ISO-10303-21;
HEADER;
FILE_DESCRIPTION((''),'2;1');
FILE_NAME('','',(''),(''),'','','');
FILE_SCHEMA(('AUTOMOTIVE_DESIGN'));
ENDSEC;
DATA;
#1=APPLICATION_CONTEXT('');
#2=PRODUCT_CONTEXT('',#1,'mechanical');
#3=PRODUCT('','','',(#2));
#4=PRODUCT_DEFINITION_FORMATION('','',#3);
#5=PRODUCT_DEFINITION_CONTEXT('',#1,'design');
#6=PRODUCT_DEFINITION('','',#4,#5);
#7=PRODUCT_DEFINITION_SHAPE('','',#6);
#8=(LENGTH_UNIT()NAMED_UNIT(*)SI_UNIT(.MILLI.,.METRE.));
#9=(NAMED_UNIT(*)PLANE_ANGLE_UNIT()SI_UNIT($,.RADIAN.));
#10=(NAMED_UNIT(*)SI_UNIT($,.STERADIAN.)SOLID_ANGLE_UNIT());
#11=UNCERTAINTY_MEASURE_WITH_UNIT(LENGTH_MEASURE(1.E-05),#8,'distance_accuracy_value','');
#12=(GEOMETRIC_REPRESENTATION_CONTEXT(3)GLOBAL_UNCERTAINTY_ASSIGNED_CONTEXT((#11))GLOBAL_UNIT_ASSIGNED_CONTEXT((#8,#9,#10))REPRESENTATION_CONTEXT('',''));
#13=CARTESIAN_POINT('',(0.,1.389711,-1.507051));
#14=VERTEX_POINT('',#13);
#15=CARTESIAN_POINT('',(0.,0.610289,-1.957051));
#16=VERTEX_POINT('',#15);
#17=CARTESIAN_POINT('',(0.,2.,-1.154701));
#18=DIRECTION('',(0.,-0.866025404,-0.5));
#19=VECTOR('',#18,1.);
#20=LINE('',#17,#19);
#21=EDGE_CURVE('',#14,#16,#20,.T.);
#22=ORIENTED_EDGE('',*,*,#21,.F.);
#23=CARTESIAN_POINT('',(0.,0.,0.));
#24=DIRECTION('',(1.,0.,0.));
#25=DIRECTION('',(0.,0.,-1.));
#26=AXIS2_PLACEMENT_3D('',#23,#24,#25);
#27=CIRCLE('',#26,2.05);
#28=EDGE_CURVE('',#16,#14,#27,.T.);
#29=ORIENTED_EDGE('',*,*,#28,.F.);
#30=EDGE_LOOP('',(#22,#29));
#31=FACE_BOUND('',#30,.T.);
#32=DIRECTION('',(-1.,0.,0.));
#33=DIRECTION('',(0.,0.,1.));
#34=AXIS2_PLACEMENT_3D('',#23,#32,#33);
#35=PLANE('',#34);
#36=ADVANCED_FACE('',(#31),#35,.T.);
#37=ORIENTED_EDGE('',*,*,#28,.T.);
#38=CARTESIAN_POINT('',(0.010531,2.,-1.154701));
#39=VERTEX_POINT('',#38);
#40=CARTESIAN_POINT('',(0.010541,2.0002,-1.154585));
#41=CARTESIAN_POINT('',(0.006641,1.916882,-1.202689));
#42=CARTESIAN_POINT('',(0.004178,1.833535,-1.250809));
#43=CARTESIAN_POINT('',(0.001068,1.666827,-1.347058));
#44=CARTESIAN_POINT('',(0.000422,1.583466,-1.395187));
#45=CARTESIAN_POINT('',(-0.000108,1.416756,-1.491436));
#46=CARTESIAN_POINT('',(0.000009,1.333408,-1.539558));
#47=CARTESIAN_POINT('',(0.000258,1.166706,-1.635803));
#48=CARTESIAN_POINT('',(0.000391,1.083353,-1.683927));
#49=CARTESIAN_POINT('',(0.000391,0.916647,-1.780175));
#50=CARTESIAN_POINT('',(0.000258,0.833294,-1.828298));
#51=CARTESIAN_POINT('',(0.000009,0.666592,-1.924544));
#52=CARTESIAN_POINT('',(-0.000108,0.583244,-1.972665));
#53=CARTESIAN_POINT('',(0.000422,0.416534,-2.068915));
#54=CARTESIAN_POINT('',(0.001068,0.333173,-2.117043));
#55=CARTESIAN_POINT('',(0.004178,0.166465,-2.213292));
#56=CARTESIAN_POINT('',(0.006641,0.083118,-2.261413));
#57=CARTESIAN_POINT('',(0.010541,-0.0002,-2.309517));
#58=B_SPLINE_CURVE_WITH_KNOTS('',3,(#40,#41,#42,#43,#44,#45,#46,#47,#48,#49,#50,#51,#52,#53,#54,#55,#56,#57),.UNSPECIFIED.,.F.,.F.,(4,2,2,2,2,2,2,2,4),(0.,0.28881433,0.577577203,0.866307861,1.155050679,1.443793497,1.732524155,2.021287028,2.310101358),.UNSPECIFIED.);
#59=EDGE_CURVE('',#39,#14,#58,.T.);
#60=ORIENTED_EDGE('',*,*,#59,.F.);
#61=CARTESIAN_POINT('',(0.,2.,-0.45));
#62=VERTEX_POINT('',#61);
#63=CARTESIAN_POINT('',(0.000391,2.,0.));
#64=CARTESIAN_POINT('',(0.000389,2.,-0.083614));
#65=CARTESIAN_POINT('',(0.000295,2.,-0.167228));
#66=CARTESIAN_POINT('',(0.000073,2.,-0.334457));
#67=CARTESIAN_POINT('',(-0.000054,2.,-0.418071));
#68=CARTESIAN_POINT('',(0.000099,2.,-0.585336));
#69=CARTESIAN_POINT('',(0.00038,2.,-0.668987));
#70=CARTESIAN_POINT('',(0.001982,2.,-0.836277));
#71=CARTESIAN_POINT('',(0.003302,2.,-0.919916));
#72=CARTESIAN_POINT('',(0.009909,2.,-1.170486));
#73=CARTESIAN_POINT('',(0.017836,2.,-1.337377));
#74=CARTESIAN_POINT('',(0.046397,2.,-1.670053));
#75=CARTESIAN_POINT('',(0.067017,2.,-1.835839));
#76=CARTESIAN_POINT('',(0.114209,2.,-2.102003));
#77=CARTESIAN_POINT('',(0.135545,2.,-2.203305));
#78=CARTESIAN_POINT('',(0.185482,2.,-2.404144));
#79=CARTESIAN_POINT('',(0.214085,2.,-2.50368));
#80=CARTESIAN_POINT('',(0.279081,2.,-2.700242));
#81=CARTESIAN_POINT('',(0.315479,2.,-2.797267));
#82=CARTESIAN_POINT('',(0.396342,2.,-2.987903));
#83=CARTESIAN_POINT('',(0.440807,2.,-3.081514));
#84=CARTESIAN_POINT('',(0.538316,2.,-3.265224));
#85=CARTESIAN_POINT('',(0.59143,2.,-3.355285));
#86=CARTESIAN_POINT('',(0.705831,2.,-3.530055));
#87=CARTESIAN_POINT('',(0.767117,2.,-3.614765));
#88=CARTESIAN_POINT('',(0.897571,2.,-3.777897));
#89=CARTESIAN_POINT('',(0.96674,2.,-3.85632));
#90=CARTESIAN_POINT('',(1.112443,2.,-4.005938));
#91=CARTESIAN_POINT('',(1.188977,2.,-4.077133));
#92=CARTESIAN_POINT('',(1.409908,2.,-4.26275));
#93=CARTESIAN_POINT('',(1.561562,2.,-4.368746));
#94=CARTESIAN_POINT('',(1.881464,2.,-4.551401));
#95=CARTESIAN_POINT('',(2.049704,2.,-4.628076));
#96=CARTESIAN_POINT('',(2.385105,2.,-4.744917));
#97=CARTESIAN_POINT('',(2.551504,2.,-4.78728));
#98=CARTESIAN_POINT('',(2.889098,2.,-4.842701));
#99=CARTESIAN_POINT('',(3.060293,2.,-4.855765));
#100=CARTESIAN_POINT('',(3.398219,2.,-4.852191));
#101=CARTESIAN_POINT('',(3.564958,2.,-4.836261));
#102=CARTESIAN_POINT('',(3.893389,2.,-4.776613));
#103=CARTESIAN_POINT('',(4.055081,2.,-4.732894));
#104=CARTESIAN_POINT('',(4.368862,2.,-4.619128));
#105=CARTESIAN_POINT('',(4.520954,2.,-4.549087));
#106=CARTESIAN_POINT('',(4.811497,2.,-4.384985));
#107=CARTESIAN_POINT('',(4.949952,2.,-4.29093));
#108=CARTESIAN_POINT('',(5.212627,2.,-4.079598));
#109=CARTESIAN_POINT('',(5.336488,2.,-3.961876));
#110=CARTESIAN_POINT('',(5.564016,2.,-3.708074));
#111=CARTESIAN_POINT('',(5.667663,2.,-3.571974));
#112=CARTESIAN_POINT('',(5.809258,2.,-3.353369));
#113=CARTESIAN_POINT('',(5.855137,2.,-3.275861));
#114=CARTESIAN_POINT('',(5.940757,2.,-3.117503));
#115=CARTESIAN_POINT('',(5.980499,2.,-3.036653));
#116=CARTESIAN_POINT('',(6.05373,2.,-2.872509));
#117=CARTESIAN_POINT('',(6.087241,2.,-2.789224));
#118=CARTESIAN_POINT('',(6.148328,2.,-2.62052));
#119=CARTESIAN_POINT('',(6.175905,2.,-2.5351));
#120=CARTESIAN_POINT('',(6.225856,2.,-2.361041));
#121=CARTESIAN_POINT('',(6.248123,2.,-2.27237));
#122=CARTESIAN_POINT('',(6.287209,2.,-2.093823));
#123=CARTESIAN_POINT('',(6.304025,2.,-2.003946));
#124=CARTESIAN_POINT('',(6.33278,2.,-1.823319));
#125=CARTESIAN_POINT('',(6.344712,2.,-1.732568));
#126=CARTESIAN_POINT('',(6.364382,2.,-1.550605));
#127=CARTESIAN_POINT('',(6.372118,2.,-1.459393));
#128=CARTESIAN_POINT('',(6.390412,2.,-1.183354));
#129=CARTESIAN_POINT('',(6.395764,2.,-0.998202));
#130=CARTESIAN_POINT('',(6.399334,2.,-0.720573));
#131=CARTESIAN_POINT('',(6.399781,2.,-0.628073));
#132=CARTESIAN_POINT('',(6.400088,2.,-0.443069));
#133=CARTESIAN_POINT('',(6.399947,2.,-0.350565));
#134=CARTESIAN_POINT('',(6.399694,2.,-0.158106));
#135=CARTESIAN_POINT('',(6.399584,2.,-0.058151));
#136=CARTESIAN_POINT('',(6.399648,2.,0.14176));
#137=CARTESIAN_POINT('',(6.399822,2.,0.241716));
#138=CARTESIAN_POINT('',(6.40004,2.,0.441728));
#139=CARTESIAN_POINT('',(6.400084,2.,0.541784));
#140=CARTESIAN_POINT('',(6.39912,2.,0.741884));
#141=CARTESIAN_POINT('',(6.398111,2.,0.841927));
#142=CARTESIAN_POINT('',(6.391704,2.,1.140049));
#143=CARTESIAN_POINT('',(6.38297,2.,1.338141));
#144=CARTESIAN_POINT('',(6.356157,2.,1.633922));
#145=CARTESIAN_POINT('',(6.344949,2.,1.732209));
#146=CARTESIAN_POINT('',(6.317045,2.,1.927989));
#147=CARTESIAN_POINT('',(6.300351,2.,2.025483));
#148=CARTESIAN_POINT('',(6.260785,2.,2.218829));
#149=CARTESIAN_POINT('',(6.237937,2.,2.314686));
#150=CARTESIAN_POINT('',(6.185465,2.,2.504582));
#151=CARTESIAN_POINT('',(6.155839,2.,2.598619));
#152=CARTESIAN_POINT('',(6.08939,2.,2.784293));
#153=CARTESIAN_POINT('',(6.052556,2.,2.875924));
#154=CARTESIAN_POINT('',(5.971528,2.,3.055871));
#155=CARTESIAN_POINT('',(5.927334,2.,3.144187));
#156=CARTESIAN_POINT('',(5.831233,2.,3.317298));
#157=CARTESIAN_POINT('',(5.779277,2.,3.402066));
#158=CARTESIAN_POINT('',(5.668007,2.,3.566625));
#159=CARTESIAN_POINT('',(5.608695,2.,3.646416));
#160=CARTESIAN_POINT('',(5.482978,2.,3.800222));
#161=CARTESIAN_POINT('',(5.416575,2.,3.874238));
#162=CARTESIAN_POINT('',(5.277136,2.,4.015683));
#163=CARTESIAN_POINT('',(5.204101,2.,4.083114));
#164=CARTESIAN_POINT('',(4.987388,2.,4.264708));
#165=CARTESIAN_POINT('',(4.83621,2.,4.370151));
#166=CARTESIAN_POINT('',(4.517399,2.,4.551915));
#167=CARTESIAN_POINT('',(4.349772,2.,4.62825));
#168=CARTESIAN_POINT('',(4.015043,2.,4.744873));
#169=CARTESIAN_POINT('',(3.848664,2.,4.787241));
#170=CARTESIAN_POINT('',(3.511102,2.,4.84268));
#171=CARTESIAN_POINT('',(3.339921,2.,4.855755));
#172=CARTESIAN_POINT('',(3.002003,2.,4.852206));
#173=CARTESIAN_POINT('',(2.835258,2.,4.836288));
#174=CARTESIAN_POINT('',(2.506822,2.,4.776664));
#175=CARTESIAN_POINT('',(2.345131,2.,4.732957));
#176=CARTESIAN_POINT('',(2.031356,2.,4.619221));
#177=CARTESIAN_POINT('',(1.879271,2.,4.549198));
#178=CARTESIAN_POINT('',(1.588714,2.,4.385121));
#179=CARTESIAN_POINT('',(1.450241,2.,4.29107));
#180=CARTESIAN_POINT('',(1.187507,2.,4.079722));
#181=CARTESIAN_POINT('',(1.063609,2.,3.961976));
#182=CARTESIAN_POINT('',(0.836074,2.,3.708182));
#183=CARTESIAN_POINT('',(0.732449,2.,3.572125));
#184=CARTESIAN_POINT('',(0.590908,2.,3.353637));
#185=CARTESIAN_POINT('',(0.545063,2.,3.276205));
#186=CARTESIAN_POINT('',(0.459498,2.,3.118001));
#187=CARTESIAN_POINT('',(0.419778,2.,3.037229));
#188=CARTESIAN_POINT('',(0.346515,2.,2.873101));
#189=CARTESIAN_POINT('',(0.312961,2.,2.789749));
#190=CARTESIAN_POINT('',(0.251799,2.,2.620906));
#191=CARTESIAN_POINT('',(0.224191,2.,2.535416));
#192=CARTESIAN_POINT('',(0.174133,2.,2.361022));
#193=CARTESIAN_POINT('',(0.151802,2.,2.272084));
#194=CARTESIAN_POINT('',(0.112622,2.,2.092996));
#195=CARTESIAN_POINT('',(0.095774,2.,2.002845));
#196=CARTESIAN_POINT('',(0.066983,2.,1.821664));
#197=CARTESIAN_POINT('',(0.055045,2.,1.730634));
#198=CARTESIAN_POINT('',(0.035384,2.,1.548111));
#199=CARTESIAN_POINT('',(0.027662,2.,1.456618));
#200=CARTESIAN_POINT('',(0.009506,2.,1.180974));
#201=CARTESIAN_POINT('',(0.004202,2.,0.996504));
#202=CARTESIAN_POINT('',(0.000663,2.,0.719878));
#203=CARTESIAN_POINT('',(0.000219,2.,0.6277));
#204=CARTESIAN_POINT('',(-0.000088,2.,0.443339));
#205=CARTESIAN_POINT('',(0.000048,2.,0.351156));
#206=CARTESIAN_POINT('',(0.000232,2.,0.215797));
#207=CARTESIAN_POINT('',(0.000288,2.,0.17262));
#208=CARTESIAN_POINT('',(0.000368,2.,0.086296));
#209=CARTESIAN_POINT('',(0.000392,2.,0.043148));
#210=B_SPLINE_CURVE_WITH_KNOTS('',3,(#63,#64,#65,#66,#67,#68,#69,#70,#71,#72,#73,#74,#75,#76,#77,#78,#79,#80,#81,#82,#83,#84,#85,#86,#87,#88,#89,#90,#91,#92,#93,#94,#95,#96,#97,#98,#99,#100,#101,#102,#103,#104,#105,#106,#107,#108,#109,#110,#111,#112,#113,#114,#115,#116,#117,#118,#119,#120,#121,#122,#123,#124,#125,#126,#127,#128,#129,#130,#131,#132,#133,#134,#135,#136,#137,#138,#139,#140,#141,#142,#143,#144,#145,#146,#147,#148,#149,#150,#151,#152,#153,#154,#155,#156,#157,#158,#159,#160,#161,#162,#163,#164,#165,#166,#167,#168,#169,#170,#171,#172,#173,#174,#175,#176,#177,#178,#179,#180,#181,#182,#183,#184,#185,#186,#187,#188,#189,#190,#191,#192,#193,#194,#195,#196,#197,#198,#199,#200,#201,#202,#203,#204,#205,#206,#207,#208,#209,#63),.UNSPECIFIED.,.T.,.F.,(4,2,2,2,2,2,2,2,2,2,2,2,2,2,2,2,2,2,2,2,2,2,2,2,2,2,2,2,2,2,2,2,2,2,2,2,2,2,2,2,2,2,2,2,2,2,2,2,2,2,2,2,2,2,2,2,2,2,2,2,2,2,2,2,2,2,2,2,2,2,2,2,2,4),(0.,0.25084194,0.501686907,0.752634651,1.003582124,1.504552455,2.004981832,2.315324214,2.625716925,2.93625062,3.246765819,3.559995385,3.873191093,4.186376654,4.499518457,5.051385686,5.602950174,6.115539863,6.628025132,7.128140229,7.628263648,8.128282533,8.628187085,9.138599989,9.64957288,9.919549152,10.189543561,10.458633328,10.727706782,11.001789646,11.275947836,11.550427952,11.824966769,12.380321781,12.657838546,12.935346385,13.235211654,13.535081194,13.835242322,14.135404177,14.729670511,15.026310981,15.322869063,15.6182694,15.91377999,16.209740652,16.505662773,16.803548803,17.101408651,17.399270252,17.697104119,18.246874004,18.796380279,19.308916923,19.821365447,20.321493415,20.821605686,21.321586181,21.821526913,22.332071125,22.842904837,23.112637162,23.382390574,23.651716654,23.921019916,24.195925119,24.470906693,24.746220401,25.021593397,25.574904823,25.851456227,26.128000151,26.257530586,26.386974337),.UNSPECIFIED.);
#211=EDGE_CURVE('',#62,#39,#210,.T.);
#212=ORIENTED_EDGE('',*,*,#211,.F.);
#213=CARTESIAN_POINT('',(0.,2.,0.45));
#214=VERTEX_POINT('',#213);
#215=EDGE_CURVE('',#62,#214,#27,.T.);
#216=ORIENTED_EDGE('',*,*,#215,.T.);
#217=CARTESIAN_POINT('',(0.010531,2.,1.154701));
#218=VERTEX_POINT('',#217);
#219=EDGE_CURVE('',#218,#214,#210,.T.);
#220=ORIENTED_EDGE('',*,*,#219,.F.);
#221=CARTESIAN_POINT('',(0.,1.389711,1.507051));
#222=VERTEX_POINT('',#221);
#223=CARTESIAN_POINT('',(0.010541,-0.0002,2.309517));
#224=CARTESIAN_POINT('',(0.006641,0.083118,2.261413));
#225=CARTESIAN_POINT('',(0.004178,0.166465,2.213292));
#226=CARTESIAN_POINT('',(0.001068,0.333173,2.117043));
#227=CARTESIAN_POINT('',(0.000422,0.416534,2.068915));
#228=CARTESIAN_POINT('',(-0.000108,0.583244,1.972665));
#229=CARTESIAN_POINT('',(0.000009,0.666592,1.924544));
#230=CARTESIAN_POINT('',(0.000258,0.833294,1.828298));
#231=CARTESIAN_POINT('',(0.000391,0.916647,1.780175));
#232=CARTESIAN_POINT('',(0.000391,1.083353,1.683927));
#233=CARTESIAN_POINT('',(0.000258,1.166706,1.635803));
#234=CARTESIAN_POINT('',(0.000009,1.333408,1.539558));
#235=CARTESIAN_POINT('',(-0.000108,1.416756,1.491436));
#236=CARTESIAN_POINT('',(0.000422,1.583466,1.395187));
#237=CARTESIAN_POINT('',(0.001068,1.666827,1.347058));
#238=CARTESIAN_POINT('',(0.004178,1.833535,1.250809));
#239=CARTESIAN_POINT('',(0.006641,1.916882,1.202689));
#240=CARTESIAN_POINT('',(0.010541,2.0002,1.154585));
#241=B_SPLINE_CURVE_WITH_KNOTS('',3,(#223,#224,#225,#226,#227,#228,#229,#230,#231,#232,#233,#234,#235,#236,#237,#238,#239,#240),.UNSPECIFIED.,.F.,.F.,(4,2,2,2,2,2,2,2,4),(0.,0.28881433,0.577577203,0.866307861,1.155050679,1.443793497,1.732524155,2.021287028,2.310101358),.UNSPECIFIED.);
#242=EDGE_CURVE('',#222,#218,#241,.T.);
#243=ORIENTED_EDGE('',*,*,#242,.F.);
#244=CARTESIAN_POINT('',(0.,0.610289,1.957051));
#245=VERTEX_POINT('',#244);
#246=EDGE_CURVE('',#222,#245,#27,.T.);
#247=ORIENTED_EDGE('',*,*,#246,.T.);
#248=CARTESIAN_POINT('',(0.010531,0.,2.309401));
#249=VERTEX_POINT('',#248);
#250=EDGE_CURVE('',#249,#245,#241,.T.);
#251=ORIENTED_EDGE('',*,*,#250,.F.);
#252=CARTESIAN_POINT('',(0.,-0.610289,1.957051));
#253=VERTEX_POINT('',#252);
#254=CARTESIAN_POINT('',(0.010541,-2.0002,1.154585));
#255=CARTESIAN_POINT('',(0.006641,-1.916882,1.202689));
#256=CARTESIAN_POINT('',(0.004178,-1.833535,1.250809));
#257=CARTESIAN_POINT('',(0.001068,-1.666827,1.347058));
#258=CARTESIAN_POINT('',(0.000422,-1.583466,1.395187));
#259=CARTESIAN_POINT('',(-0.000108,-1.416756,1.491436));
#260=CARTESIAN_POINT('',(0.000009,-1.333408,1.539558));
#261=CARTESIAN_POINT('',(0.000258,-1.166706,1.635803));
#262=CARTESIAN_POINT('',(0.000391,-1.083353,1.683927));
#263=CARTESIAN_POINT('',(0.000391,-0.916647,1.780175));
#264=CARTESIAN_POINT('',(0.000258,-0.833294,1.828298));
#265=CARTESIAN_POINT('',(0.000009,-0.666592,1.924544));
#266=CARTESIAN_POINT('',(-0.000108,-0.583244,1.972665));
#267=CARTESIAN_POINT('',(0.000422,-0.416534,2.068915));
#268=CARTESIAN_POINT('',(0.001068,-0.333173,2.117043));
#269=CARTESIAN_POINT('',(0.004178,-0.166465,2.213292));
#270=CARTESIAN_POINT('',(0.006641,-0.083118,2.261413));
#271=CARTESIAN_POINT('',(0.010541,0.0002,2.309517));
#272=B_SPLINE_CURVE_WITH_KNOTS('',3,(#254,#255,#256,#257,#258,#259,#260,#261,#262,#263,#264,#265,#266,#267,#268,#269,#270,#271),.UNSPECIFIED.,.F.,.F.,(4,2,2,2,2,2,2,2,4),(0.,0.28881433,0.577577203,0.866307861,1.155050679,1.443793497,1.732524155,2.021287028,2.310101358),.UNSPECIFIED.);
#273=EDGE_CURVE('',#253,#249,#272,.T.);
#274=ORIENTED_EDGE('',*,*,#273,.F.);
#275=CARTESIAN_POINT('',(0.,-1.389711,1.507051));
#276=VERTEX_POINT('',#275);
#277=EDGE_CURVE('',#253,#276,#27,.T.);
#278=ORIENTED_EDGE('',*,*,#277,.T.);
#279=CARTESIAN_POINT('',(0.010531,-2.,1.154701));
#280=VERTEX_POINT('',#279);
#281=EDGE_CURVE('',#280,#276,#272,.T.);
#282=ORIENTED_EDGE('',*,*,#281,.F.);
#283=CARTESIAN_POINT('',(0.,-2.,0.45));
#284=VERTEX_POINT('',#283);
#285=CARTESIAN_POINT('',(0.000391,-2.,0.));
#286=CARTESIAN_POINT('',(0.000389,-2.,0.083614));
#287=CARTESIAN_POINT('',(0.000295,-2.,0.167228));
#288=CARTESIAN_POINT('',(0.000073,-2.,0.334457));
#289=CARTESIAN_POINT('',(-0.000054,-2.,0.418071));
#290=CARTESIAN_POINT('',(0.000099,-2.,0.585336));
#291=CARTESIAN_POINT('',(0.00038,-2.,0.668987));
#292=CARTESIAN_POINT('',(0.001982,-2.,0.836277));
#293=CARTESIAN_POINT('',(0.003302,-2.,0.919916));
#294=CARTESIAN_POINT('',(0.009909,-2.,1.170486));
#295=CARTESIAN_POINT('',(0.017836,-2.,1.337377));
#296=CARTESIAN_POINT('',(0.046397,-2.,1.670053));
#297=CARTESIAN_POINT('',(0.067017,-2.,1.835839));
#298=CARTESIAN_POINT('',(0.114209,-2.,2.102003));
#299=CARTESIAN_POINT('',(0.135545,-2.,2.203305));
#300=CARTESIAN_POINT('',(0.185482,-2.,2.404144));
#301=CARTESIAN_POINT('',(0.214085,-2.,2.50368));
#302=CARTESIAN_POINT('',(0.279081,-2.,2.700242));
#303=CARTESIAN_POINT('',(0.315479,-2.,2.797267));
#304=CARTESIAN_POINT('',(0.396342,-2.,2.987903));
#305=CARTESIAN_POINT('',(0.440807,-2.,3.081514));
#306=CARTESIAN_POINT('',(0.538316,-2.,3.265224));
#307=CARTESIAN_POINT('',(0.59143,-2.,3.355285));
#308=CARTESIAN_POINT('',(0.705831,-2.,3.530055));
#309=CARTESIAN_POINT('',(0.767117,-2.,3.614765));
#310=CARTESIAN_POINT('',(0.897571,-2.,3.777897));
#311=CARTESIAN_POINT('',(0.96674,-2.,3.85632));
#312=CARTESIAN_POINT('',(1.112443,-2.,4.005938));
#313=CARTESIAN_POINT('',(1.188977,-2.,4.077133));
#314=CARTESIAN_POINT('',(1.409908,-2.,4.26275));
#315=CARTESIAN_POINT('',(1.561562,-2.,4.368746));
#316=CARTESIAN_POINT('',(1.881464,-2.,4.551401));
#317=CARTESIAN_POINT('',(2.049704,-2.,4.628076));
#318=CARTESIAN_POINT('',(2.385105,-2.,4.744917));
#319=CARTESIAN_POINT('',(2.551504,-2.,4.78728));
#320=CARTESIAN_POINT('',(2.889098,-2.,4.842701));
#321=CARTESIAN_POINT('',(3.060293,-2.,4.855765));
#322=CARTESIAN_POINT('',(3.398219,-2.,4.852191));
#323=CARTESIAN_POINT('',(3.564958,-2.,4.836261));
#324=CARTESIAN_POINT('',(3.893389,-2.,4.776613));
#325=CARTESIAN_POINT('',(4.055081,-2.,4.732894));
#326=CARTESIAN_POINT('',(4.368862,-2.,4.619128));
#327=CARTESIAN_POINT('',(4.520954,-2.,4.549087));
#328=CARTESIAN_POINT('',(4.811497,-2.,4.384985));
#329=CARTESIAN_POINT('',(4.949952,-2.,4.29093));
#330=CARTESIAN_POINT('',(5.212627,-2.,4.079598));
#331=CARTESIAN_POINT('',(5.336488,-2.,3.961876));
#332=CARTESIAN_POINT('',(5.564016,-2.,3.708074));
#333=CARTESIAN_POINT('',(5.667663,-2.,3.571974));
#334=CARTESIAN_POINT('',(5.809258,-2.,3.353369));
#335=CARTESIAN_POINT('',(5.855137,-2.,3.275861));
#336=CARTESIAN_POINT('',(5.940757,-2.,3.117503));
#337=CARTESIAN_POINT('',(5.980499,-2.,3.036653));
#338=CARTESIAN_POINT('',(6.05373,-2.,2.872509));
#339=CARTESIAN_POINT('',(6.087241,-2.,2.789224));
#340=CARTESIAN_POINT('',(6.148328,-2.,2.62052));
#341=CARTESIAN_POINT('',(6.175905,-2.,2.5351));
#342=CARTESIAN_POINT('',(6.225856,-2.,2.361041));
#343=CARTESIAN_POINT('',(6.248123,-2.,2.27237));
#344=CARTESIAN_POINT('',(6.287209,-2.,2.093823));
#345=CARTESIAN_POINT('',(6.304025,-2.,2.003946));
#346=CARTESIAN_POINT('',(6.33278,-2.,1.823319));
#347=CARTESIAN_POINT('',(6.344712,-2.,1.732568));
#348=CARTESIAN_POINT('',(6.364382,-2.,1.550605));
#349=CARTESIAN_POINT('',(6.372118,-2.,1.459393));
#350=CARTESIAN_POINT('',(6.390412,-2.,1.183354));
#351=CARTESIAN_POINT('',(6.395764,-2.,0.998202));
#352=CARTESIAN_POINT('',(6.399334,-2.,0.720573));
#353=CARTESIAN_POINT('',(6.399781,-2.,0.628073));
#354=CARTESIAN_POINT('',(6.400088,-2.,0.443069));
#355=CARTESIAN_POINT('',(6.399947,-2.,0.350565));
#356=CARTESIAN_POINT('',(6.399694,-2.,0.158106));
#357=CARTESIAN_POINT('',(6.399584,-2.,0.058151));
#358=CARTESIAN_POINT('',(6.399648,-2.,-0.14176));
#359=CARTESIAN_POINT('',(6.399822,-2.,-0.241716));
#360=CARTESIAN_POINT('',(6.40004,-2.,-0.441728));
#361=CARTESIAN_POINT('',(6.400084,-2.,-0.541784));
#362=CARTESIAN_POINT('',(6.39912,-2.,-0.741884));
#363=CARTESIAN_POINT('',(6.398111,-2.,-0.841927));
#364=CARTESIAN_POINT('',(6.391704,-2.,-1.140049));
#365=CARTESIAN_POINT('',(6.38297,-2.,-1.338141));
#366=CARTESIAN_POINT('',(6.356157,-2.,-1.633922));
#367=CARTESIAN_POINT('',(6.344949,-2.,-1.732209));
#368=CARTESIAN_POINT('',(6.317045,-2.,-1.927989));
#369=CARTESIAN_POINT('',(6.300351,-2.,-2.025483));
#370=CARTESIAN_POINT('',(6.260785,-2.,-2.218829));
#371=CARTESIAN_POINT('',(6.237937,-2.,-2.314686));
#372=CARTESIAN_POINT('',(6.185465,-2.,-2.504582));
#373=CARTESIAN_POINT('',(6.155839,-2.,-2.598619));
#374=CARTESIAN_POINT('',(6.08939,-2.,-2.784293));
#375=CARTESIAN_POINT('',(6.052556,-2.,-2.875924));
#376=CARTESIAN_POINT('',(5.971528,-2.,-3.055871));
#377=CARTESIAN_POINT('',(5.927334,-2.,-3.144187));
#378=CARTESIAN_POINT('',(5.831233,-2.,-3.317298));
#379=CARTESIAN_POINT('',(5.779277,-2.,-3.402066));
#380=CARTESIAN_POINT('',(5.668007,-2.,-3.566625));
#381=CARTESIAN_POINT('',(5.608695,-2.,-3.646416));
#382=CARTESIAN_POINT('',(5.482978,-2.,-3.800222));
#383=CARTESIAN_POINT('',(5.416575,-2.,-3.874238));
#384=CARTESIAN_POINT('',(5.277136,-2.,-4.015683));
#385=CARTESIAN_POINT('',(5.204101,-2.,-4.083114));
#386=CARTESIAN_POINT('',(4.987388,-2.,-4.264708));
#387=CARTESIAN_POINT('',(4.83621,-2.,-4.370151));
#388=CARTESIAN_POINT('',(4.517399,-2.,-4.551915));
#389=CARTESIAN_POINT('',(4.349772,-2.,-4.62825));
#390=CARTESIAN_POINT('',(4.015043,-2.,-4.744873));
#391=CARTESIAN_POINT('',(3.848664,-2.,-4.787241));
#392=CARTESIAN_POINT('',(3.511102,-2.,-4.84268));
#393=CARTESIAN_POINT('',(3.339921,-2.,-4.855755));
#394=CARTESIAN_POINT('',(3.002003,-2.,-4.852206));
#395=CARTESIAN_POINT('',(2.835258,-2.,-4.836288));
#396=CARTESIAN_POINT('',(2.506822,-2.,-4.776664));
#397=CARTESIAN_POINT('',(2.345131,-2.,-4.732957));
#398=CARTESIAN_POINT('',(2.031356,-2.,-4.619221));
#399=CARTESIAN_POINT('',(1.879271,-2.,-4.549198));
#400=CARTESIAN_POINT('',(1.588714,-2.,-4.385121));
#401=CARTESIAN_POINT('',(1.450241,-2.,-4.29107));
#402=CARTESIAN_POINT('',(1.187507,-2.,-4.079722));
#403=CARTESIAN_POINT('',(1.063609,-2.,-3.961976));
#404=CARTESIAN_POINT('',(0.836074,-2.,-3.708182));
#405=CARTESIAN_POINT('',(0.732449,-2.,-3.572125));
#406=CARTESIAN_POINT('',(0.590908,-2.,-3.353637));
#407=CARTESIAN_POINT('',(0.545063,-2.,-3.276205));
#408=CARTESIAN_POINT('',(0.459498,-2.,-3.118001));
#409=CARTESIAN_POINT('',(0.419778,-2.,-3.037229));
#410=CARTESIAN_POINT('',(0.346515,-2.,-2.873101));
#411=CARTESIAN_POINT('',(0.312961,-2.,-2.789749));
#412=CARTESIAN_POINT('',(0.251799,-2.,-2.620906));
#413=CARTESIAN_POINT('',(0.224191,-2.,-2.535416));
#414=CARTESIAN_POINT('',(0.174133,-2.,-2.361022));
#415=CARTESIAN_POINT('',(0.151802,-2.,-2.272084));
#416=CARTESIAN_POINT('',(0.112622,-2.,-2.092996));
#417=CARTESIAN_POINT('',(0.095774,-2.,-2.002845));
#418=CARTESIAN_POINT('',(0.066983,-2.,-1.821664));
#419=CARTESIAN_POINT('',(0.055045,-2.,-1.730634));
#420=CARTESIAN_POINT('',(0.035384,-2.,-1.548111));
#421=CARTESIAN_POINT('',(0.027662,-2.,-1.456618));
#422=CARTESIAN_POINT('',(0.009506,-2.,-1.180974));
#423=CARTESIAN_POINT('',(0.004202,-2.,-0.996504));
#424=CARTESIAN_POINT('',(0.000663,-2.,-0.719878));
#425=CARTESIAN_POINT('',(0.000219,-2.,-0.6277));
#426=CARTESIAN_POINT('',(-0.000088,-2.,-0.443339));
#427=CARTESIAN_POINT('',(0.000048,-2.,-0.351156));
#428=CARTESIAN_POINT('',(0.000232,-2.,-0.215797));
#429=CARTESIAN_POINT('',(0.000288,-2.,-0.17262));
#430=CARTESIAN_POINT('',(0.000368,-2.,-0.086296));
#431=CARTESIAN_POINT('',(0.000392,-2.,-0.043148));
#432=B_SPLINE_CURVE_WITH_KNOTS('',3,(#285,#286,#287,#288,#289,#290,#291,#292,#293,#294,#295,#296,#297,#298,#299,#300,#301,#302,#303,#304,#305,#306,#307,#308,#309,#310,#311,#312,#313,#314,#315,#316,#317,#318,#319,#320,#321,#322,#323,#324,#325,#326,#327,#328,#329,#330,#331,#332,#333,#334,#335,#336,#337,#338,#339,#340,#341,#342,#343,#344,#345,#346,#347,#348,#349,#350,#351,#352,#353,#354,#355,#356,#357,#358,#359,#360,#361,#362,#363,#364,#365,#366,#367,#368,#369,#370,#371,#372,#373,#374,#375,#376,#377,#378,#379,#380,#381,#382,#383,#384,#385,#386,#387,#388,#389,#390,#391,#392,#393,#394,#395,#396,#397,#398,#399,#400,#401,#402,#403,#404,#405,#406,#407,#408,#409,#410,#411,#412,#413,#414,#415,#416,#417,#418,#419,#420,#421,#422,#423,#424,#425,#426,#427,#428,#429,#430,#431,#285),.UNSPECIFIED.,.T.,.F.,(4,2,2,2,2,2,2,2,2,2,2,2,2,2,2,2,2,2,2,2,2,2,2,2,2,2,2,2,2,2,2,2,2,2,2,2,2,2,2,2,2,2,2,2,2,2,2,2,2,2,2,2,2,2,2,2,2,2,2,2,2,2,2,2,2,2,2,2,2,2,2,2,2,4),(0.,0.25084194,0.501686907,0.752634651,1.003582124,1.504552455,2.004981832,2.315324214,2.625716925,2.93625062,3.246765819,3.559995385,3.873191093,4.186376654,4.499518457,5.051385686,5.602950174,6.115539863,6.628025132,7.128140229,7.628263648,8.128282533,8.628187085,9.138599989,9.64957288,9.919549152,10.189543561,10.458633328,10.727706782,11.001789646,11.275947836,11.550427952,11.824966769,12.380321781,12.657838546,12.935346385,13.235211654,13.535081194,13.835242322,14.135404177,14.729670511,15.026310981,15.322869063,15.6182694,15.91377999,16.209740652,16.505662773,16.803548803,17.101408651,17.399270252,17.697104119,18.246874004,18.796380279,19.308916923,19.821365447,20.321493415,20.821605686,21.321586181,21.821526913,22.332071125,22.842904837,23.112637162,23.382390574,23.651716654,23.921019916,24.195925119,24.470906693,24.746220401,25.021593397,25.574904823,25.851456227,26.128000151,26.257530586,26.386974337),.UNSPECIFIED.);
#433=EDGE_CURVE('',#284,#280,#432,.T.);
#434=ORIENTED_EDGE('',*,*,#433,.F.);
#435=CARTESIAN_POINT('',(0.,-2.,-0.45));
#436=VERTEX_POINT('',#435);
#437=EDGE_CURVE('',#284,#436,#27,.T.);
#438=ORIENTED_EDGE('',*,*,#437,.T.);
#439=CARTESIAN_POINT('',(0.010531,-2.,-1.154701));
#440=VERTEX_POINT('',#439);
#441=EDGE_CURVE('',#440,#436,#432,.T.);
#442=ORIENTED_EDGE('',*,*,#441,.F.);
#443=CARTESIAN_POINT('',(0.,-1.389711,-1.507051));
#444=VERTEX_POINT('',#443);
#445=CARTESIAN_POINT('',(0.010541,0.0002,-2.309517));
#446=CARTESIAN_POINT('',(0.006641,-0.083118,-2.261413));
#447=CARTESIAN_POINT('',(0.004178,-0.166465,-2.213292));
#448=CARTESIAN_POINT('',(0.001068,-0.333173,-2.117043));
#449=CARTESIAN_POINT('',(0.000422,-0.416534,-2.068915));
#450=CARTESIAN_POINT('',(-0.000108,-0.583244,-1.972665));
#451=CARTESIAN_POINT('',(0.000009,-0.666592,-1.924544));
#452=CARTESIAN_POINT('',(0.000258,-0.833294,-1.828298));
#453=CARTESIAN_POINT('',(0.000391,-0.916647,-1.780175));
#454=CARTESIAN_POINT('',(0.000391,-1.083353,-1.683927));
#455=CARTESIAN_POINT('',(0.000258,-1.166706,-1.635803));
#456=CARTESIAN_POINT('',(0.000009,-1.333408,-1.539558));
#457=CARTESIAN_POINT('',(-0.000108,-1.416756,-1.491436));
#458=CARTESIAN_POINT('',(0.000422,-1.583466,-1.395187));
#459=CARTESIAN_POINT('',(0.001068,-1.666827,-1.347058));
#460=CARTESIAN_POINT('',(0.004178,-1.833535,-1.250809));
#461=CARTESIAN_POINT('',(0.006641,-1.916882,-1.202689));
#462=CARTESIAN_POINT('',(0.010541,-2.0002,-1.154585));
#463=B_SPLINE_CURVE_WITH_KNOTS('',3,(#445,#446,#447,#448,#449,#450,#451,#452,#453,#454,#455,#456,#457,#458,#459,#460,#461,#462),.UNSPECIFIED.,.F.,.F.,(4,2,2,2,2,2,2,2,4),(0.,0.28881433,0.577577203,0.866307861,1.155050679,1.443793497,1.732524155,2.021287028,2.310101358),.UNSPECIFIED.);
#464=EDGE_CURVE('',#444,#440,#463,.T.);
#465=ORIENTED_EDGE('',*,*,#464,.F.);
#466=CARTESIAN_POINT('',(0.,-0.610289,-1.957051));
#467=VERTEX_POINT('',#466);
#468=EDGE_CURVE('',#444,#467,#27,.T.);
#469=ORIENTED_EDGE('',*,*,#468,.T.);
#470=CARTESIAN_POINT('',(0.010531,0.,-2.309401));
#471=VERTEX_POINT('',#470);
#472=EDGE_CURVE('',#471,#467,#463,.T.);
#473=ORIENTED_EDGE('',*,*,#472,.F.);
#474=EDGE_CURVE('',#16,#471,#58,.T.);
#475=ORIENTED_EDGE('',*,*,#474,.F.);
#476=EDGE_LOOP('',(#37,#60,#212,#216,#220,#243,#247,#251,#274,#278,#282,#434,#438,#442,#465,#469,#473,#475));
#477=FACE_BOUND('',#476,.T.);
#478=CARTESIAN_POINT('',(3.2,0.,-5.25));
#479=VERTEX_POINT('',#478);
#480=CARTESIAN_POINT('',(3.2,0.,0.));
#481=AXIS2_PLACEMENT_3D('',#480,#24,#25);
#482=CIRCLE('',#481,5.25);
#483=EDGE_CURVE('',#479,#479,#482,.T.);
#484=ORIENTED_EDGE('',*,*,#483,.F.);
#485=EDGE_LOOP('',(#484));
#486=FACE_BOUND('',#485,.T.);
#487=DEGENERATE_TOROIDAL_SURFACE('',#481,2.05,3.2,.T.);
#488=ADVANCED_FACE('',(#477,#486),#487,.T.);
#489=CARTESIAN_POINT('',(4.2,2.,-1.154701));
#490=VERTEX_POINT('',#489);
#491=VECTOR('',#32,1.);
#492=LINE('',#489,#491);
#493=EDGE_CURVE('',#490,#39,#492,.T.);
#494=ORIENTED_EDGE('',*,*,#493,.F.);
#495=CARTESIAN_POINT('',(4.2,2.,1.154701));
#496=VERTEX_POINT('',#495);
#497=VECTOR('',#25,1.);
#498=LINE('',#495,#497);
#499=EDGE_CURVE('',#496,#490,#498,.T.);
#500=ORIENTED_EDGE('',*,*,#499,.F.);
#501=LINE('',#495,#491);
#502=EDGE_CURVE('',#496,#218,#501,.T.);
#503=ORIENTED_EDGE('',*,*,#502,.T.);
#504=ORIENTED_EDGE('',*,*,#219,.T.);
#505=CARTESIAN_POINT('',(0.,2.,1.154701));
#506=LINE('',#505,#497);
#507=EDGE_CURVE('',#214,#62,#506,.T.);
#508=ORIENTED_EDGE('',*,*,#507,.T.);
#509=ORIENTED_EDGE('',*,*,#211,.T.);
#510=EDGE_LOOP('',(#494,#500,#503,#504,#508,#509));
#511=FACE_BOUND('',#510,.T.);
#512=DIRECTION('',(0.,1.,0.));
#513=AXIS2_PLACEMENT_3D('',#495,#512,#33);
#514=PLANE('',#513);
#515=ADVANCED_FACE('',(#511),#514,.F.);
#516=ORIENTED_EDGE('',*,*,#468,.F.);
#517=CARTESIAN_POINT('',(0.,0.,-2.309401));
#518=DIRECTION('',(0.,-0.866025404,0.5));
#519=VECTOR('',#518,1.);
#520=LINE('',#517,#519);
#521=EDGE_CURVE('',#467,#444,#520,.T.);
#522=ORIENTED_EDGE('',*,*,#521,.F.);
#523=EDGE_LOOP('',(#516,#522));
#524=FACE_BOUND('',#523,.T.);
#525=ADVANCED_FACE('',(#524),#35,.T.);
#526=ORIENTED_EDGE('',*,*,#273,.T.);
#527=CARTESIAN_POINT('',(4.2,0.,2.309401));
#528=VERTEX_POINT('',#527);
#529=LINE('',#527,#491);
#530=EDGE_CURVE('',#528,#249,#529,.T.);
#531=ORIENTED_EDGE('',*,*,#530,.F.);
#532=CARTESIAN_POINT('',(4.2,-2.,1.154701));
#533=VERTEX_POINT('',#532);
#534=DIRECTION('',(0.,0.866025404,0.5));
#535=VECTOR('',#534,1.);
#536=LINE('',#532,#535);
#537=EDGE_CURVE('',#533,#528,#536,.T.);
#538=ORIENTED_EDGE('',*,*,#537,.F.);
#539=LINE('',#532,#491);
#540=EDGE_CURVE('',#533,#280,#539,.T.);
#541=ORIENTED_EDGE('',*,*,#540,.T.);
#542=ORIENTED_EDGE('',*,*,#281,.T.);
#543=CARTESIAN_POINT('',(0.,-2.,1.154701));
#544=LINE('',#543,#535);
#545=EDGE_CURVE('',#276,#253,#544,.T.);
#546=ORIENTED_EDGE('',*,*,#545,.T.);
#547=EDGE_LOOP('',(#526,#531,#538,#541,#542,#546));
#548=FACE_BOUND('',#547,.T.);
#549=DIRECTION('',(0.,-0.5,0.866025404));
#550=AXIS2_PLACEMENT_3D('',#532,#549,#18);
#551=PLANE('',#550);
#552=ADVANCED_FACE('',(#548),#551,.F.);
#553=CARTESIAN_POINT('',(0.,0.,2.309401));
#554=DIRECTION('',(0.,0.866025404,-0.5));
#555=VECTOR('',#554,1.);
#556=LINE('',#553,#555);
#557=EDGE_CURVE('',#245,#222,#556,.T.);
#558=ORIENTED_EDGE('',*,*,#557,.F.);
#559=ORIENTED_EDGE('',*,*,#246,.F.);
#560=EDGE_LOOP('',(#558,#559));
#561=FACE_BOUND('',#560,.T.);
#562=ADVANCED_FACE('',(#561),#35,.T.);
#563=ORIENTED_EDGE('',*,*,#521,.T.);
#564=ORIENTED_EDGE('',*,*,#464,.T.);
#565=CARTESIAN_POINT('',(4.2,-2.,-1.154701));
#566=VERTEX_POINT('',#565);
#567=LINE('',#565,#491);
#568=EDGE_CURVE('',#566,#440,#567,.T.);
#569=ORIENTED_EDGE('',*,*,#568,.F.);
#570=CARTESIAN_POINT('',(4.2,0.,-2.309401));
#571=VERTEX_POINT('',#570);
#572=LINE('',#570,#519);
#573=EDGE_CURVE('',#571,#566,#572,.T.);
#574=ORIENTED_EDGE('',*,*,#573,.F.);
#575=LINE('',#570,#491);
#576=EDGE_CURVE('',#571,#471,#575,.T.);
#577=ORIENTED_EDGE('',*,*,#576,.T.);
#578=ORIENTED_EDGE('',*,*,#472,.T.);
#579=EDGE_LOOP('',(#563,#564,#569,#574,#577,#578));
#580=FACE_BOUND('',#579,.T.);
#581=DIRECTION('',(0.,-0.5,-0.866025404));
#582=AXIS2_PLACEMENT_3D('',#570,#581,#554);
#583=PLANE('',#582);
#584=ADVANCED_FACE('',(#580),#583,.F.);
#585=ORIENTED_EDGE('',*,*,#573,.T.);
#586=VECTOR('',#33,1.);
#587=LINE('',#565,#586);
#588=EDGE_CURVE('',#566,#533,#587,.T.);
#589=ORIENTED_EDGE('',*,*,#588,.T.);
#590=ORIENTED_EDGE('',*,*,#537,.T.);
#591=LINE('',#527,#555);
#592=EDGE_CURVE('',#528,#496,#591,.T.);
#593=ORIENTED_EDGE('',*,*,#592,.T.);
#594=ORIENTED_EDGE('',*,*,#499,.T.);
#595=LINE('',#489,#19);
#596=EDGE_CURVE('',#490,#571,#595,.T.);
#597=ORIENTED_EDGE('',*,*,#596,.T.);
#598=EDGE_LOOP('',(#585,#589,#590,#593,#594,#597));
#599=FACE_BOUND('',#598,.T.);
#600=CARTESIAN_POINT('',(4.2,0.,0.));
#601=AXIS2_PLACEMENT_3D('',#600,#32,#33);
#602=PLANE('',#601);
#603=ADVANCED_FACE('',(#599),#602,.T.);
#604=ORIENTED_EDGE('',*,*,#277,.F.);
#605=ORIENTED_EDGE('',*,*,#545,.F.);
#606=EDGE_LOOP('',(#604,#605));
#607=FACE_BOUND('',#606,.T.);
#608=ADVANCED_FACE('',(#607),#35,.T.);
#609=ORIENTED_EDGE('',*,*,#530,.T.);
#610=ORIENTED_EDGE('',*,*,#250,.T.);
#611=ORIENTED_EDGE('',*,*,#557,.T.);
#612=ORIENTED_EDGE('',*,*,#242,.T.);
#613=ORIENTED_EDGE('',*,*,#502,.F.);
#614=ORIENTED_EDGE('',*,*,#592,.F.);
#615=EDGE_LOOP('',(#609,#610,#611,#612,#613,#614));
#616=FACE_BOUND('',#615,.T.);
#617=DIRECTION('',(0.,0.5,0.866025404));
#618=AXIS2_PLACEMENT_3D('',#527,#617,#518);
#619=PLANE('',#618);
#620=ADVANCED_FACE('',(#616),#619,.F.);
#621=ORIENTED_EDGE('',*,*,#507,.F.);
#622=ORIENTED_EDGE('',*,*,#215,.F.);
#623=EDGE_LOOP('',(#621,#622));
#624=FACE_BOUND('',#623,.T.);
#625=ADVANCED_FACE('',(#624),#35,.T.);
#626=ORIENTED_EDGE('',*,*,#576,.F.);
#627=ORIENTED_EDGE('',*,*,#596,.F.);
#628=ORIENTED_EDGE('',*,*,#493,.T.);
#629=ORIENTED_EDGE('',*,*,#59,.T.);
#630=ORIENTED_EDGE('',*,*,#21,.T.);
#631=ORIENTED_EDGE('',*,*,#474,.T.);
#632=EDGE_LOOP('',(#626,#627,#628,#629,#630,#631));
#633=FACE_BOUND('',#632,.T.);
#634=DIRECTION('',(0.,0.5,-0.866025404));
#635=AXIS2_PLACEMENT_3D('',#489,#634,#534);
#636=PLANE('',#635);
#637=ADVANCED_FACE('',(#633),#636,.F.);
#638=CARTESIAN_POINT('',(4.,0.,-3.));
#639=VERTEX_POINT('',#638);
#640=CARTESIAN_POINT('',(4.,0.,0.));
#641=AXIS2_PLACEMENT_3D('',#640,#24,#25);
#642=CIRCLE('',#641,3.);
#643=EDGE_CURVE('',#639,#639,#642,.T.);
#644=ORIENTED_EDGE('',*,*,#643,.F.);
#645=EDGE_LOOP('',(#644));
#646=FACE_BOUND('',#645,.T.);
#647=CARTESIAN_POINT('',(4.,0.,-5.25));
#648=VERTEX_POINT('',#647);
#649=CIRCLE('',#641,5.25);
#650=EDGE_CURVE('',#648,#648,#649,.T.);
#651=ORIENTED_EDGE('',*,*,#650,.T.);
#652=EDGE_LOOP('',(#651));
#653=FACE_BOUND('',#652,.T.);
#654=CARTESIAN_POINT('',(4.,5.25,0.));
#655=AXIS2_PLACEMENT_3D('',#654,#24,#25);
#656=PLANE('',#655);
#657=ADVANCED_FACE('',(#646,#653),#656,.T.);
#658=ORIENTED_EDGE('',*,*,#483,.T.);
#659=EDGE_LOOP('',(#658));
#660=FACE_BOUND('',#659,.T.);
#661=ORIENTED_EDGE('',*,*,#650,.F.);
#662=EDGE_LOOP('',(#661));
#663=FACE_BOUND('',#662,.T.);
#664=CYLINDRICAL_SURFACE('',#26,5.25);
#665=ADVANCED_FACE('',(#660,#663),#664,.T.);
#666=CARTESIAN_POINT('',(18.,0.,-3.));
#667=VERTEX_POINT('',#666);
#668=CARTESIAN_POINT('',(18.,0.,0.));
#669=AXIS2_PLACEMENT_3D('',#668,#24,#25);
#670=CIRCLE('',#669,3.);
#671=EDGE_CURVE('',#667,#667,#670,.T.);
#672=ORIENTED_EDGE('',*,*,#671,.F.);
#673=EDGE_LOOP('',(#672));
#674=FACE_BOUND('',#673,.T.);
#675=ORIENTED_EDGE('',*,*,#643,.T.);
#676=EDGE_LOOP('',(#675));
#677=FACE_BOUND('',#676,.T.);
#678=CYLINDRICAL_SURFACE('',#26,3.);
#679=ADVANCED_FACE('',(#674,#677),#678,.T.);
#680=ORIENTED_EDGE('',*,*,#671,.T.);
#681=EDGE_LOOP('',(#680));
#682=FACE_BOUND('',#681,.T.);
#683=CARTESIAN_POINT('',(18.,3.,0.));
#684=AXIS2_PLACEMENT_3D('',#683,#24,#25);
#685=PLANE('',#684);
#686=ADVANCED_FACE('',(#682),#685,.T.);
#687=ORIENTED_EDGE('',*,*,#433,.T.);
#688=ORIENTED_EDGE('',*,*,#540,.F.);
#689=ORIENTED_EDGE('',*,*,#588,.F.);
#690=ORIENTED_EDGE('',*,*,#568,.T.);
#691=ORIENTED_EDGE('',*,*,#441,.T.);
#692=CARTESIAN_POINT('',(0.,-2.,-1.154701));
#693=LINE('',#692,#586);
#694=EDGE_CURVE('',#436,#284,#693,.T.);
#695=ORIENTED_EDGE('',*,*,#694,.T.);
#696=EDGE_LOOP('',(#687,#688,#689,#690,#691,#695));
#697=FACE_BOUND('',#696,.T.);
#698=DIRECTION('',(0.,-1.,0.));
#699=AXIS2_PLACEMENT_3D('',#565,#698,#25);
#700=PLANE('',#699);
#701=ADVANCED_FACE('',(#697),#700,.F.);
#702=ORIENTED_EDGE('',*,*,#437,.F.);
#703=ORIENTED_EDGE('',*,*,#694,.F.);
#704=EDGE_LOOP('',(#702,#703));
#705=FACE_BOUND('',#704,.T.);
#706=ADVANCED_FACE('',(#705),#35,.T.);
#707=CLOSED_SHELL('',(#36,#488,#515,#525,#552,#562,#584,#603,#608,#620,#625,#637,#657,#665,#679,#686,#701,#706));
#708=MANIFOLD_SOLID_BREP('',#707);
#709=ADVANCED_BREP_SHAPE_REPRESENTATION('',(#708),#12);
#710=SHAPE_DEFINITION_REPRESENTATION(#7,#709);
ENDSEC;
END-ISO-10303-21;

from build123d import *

# Parameters (mm, degrees)
CUT_EXTRUDE1_DEPTH = 4.2


with BuildPart() as part:
    # Sketch1 → Revolve1 (revolve)
    with BuildSketch(Plane.XY, mode=Mode.PRIVATE) as revolve1_sk:
        with BuildLine():
            Line((0, 0), (0, 2.05))
            ThreePointArc((0, 2.05), (0.9372583, 4.3127417), (3.2, 5.25))
            Line((3.2, 5.25), (4, 5.25))
            Line((4, 5.25), (4, 3))
            Line((4, 3), (18, 3))
            Line((18, 3), (18, 0))
            Line((18, 0), (0, 0))
        make_face()
    revolve(revolve1_sk.sketch.rotate(Axis((0, 0, 0), (-1, 0, 0)), 90), axis=Axis((0, 0, 0), (-1, 0, 0)))

    # Sketch2 → Cut-Extrude1 (cut)
    with BuildSketch(Plane.ZY):
        Polygon((2.309401077, 0), (1.154700538, 2), (-1.154700538, 2), (-2.309401077, 0), (-1.154700538, -2), (1.154700538, -2), align=None)
    extrude(amount=-CUT_EXTRUDE1_DEPTH, mode=Mode.SUBTRACT)


solid = part.part
